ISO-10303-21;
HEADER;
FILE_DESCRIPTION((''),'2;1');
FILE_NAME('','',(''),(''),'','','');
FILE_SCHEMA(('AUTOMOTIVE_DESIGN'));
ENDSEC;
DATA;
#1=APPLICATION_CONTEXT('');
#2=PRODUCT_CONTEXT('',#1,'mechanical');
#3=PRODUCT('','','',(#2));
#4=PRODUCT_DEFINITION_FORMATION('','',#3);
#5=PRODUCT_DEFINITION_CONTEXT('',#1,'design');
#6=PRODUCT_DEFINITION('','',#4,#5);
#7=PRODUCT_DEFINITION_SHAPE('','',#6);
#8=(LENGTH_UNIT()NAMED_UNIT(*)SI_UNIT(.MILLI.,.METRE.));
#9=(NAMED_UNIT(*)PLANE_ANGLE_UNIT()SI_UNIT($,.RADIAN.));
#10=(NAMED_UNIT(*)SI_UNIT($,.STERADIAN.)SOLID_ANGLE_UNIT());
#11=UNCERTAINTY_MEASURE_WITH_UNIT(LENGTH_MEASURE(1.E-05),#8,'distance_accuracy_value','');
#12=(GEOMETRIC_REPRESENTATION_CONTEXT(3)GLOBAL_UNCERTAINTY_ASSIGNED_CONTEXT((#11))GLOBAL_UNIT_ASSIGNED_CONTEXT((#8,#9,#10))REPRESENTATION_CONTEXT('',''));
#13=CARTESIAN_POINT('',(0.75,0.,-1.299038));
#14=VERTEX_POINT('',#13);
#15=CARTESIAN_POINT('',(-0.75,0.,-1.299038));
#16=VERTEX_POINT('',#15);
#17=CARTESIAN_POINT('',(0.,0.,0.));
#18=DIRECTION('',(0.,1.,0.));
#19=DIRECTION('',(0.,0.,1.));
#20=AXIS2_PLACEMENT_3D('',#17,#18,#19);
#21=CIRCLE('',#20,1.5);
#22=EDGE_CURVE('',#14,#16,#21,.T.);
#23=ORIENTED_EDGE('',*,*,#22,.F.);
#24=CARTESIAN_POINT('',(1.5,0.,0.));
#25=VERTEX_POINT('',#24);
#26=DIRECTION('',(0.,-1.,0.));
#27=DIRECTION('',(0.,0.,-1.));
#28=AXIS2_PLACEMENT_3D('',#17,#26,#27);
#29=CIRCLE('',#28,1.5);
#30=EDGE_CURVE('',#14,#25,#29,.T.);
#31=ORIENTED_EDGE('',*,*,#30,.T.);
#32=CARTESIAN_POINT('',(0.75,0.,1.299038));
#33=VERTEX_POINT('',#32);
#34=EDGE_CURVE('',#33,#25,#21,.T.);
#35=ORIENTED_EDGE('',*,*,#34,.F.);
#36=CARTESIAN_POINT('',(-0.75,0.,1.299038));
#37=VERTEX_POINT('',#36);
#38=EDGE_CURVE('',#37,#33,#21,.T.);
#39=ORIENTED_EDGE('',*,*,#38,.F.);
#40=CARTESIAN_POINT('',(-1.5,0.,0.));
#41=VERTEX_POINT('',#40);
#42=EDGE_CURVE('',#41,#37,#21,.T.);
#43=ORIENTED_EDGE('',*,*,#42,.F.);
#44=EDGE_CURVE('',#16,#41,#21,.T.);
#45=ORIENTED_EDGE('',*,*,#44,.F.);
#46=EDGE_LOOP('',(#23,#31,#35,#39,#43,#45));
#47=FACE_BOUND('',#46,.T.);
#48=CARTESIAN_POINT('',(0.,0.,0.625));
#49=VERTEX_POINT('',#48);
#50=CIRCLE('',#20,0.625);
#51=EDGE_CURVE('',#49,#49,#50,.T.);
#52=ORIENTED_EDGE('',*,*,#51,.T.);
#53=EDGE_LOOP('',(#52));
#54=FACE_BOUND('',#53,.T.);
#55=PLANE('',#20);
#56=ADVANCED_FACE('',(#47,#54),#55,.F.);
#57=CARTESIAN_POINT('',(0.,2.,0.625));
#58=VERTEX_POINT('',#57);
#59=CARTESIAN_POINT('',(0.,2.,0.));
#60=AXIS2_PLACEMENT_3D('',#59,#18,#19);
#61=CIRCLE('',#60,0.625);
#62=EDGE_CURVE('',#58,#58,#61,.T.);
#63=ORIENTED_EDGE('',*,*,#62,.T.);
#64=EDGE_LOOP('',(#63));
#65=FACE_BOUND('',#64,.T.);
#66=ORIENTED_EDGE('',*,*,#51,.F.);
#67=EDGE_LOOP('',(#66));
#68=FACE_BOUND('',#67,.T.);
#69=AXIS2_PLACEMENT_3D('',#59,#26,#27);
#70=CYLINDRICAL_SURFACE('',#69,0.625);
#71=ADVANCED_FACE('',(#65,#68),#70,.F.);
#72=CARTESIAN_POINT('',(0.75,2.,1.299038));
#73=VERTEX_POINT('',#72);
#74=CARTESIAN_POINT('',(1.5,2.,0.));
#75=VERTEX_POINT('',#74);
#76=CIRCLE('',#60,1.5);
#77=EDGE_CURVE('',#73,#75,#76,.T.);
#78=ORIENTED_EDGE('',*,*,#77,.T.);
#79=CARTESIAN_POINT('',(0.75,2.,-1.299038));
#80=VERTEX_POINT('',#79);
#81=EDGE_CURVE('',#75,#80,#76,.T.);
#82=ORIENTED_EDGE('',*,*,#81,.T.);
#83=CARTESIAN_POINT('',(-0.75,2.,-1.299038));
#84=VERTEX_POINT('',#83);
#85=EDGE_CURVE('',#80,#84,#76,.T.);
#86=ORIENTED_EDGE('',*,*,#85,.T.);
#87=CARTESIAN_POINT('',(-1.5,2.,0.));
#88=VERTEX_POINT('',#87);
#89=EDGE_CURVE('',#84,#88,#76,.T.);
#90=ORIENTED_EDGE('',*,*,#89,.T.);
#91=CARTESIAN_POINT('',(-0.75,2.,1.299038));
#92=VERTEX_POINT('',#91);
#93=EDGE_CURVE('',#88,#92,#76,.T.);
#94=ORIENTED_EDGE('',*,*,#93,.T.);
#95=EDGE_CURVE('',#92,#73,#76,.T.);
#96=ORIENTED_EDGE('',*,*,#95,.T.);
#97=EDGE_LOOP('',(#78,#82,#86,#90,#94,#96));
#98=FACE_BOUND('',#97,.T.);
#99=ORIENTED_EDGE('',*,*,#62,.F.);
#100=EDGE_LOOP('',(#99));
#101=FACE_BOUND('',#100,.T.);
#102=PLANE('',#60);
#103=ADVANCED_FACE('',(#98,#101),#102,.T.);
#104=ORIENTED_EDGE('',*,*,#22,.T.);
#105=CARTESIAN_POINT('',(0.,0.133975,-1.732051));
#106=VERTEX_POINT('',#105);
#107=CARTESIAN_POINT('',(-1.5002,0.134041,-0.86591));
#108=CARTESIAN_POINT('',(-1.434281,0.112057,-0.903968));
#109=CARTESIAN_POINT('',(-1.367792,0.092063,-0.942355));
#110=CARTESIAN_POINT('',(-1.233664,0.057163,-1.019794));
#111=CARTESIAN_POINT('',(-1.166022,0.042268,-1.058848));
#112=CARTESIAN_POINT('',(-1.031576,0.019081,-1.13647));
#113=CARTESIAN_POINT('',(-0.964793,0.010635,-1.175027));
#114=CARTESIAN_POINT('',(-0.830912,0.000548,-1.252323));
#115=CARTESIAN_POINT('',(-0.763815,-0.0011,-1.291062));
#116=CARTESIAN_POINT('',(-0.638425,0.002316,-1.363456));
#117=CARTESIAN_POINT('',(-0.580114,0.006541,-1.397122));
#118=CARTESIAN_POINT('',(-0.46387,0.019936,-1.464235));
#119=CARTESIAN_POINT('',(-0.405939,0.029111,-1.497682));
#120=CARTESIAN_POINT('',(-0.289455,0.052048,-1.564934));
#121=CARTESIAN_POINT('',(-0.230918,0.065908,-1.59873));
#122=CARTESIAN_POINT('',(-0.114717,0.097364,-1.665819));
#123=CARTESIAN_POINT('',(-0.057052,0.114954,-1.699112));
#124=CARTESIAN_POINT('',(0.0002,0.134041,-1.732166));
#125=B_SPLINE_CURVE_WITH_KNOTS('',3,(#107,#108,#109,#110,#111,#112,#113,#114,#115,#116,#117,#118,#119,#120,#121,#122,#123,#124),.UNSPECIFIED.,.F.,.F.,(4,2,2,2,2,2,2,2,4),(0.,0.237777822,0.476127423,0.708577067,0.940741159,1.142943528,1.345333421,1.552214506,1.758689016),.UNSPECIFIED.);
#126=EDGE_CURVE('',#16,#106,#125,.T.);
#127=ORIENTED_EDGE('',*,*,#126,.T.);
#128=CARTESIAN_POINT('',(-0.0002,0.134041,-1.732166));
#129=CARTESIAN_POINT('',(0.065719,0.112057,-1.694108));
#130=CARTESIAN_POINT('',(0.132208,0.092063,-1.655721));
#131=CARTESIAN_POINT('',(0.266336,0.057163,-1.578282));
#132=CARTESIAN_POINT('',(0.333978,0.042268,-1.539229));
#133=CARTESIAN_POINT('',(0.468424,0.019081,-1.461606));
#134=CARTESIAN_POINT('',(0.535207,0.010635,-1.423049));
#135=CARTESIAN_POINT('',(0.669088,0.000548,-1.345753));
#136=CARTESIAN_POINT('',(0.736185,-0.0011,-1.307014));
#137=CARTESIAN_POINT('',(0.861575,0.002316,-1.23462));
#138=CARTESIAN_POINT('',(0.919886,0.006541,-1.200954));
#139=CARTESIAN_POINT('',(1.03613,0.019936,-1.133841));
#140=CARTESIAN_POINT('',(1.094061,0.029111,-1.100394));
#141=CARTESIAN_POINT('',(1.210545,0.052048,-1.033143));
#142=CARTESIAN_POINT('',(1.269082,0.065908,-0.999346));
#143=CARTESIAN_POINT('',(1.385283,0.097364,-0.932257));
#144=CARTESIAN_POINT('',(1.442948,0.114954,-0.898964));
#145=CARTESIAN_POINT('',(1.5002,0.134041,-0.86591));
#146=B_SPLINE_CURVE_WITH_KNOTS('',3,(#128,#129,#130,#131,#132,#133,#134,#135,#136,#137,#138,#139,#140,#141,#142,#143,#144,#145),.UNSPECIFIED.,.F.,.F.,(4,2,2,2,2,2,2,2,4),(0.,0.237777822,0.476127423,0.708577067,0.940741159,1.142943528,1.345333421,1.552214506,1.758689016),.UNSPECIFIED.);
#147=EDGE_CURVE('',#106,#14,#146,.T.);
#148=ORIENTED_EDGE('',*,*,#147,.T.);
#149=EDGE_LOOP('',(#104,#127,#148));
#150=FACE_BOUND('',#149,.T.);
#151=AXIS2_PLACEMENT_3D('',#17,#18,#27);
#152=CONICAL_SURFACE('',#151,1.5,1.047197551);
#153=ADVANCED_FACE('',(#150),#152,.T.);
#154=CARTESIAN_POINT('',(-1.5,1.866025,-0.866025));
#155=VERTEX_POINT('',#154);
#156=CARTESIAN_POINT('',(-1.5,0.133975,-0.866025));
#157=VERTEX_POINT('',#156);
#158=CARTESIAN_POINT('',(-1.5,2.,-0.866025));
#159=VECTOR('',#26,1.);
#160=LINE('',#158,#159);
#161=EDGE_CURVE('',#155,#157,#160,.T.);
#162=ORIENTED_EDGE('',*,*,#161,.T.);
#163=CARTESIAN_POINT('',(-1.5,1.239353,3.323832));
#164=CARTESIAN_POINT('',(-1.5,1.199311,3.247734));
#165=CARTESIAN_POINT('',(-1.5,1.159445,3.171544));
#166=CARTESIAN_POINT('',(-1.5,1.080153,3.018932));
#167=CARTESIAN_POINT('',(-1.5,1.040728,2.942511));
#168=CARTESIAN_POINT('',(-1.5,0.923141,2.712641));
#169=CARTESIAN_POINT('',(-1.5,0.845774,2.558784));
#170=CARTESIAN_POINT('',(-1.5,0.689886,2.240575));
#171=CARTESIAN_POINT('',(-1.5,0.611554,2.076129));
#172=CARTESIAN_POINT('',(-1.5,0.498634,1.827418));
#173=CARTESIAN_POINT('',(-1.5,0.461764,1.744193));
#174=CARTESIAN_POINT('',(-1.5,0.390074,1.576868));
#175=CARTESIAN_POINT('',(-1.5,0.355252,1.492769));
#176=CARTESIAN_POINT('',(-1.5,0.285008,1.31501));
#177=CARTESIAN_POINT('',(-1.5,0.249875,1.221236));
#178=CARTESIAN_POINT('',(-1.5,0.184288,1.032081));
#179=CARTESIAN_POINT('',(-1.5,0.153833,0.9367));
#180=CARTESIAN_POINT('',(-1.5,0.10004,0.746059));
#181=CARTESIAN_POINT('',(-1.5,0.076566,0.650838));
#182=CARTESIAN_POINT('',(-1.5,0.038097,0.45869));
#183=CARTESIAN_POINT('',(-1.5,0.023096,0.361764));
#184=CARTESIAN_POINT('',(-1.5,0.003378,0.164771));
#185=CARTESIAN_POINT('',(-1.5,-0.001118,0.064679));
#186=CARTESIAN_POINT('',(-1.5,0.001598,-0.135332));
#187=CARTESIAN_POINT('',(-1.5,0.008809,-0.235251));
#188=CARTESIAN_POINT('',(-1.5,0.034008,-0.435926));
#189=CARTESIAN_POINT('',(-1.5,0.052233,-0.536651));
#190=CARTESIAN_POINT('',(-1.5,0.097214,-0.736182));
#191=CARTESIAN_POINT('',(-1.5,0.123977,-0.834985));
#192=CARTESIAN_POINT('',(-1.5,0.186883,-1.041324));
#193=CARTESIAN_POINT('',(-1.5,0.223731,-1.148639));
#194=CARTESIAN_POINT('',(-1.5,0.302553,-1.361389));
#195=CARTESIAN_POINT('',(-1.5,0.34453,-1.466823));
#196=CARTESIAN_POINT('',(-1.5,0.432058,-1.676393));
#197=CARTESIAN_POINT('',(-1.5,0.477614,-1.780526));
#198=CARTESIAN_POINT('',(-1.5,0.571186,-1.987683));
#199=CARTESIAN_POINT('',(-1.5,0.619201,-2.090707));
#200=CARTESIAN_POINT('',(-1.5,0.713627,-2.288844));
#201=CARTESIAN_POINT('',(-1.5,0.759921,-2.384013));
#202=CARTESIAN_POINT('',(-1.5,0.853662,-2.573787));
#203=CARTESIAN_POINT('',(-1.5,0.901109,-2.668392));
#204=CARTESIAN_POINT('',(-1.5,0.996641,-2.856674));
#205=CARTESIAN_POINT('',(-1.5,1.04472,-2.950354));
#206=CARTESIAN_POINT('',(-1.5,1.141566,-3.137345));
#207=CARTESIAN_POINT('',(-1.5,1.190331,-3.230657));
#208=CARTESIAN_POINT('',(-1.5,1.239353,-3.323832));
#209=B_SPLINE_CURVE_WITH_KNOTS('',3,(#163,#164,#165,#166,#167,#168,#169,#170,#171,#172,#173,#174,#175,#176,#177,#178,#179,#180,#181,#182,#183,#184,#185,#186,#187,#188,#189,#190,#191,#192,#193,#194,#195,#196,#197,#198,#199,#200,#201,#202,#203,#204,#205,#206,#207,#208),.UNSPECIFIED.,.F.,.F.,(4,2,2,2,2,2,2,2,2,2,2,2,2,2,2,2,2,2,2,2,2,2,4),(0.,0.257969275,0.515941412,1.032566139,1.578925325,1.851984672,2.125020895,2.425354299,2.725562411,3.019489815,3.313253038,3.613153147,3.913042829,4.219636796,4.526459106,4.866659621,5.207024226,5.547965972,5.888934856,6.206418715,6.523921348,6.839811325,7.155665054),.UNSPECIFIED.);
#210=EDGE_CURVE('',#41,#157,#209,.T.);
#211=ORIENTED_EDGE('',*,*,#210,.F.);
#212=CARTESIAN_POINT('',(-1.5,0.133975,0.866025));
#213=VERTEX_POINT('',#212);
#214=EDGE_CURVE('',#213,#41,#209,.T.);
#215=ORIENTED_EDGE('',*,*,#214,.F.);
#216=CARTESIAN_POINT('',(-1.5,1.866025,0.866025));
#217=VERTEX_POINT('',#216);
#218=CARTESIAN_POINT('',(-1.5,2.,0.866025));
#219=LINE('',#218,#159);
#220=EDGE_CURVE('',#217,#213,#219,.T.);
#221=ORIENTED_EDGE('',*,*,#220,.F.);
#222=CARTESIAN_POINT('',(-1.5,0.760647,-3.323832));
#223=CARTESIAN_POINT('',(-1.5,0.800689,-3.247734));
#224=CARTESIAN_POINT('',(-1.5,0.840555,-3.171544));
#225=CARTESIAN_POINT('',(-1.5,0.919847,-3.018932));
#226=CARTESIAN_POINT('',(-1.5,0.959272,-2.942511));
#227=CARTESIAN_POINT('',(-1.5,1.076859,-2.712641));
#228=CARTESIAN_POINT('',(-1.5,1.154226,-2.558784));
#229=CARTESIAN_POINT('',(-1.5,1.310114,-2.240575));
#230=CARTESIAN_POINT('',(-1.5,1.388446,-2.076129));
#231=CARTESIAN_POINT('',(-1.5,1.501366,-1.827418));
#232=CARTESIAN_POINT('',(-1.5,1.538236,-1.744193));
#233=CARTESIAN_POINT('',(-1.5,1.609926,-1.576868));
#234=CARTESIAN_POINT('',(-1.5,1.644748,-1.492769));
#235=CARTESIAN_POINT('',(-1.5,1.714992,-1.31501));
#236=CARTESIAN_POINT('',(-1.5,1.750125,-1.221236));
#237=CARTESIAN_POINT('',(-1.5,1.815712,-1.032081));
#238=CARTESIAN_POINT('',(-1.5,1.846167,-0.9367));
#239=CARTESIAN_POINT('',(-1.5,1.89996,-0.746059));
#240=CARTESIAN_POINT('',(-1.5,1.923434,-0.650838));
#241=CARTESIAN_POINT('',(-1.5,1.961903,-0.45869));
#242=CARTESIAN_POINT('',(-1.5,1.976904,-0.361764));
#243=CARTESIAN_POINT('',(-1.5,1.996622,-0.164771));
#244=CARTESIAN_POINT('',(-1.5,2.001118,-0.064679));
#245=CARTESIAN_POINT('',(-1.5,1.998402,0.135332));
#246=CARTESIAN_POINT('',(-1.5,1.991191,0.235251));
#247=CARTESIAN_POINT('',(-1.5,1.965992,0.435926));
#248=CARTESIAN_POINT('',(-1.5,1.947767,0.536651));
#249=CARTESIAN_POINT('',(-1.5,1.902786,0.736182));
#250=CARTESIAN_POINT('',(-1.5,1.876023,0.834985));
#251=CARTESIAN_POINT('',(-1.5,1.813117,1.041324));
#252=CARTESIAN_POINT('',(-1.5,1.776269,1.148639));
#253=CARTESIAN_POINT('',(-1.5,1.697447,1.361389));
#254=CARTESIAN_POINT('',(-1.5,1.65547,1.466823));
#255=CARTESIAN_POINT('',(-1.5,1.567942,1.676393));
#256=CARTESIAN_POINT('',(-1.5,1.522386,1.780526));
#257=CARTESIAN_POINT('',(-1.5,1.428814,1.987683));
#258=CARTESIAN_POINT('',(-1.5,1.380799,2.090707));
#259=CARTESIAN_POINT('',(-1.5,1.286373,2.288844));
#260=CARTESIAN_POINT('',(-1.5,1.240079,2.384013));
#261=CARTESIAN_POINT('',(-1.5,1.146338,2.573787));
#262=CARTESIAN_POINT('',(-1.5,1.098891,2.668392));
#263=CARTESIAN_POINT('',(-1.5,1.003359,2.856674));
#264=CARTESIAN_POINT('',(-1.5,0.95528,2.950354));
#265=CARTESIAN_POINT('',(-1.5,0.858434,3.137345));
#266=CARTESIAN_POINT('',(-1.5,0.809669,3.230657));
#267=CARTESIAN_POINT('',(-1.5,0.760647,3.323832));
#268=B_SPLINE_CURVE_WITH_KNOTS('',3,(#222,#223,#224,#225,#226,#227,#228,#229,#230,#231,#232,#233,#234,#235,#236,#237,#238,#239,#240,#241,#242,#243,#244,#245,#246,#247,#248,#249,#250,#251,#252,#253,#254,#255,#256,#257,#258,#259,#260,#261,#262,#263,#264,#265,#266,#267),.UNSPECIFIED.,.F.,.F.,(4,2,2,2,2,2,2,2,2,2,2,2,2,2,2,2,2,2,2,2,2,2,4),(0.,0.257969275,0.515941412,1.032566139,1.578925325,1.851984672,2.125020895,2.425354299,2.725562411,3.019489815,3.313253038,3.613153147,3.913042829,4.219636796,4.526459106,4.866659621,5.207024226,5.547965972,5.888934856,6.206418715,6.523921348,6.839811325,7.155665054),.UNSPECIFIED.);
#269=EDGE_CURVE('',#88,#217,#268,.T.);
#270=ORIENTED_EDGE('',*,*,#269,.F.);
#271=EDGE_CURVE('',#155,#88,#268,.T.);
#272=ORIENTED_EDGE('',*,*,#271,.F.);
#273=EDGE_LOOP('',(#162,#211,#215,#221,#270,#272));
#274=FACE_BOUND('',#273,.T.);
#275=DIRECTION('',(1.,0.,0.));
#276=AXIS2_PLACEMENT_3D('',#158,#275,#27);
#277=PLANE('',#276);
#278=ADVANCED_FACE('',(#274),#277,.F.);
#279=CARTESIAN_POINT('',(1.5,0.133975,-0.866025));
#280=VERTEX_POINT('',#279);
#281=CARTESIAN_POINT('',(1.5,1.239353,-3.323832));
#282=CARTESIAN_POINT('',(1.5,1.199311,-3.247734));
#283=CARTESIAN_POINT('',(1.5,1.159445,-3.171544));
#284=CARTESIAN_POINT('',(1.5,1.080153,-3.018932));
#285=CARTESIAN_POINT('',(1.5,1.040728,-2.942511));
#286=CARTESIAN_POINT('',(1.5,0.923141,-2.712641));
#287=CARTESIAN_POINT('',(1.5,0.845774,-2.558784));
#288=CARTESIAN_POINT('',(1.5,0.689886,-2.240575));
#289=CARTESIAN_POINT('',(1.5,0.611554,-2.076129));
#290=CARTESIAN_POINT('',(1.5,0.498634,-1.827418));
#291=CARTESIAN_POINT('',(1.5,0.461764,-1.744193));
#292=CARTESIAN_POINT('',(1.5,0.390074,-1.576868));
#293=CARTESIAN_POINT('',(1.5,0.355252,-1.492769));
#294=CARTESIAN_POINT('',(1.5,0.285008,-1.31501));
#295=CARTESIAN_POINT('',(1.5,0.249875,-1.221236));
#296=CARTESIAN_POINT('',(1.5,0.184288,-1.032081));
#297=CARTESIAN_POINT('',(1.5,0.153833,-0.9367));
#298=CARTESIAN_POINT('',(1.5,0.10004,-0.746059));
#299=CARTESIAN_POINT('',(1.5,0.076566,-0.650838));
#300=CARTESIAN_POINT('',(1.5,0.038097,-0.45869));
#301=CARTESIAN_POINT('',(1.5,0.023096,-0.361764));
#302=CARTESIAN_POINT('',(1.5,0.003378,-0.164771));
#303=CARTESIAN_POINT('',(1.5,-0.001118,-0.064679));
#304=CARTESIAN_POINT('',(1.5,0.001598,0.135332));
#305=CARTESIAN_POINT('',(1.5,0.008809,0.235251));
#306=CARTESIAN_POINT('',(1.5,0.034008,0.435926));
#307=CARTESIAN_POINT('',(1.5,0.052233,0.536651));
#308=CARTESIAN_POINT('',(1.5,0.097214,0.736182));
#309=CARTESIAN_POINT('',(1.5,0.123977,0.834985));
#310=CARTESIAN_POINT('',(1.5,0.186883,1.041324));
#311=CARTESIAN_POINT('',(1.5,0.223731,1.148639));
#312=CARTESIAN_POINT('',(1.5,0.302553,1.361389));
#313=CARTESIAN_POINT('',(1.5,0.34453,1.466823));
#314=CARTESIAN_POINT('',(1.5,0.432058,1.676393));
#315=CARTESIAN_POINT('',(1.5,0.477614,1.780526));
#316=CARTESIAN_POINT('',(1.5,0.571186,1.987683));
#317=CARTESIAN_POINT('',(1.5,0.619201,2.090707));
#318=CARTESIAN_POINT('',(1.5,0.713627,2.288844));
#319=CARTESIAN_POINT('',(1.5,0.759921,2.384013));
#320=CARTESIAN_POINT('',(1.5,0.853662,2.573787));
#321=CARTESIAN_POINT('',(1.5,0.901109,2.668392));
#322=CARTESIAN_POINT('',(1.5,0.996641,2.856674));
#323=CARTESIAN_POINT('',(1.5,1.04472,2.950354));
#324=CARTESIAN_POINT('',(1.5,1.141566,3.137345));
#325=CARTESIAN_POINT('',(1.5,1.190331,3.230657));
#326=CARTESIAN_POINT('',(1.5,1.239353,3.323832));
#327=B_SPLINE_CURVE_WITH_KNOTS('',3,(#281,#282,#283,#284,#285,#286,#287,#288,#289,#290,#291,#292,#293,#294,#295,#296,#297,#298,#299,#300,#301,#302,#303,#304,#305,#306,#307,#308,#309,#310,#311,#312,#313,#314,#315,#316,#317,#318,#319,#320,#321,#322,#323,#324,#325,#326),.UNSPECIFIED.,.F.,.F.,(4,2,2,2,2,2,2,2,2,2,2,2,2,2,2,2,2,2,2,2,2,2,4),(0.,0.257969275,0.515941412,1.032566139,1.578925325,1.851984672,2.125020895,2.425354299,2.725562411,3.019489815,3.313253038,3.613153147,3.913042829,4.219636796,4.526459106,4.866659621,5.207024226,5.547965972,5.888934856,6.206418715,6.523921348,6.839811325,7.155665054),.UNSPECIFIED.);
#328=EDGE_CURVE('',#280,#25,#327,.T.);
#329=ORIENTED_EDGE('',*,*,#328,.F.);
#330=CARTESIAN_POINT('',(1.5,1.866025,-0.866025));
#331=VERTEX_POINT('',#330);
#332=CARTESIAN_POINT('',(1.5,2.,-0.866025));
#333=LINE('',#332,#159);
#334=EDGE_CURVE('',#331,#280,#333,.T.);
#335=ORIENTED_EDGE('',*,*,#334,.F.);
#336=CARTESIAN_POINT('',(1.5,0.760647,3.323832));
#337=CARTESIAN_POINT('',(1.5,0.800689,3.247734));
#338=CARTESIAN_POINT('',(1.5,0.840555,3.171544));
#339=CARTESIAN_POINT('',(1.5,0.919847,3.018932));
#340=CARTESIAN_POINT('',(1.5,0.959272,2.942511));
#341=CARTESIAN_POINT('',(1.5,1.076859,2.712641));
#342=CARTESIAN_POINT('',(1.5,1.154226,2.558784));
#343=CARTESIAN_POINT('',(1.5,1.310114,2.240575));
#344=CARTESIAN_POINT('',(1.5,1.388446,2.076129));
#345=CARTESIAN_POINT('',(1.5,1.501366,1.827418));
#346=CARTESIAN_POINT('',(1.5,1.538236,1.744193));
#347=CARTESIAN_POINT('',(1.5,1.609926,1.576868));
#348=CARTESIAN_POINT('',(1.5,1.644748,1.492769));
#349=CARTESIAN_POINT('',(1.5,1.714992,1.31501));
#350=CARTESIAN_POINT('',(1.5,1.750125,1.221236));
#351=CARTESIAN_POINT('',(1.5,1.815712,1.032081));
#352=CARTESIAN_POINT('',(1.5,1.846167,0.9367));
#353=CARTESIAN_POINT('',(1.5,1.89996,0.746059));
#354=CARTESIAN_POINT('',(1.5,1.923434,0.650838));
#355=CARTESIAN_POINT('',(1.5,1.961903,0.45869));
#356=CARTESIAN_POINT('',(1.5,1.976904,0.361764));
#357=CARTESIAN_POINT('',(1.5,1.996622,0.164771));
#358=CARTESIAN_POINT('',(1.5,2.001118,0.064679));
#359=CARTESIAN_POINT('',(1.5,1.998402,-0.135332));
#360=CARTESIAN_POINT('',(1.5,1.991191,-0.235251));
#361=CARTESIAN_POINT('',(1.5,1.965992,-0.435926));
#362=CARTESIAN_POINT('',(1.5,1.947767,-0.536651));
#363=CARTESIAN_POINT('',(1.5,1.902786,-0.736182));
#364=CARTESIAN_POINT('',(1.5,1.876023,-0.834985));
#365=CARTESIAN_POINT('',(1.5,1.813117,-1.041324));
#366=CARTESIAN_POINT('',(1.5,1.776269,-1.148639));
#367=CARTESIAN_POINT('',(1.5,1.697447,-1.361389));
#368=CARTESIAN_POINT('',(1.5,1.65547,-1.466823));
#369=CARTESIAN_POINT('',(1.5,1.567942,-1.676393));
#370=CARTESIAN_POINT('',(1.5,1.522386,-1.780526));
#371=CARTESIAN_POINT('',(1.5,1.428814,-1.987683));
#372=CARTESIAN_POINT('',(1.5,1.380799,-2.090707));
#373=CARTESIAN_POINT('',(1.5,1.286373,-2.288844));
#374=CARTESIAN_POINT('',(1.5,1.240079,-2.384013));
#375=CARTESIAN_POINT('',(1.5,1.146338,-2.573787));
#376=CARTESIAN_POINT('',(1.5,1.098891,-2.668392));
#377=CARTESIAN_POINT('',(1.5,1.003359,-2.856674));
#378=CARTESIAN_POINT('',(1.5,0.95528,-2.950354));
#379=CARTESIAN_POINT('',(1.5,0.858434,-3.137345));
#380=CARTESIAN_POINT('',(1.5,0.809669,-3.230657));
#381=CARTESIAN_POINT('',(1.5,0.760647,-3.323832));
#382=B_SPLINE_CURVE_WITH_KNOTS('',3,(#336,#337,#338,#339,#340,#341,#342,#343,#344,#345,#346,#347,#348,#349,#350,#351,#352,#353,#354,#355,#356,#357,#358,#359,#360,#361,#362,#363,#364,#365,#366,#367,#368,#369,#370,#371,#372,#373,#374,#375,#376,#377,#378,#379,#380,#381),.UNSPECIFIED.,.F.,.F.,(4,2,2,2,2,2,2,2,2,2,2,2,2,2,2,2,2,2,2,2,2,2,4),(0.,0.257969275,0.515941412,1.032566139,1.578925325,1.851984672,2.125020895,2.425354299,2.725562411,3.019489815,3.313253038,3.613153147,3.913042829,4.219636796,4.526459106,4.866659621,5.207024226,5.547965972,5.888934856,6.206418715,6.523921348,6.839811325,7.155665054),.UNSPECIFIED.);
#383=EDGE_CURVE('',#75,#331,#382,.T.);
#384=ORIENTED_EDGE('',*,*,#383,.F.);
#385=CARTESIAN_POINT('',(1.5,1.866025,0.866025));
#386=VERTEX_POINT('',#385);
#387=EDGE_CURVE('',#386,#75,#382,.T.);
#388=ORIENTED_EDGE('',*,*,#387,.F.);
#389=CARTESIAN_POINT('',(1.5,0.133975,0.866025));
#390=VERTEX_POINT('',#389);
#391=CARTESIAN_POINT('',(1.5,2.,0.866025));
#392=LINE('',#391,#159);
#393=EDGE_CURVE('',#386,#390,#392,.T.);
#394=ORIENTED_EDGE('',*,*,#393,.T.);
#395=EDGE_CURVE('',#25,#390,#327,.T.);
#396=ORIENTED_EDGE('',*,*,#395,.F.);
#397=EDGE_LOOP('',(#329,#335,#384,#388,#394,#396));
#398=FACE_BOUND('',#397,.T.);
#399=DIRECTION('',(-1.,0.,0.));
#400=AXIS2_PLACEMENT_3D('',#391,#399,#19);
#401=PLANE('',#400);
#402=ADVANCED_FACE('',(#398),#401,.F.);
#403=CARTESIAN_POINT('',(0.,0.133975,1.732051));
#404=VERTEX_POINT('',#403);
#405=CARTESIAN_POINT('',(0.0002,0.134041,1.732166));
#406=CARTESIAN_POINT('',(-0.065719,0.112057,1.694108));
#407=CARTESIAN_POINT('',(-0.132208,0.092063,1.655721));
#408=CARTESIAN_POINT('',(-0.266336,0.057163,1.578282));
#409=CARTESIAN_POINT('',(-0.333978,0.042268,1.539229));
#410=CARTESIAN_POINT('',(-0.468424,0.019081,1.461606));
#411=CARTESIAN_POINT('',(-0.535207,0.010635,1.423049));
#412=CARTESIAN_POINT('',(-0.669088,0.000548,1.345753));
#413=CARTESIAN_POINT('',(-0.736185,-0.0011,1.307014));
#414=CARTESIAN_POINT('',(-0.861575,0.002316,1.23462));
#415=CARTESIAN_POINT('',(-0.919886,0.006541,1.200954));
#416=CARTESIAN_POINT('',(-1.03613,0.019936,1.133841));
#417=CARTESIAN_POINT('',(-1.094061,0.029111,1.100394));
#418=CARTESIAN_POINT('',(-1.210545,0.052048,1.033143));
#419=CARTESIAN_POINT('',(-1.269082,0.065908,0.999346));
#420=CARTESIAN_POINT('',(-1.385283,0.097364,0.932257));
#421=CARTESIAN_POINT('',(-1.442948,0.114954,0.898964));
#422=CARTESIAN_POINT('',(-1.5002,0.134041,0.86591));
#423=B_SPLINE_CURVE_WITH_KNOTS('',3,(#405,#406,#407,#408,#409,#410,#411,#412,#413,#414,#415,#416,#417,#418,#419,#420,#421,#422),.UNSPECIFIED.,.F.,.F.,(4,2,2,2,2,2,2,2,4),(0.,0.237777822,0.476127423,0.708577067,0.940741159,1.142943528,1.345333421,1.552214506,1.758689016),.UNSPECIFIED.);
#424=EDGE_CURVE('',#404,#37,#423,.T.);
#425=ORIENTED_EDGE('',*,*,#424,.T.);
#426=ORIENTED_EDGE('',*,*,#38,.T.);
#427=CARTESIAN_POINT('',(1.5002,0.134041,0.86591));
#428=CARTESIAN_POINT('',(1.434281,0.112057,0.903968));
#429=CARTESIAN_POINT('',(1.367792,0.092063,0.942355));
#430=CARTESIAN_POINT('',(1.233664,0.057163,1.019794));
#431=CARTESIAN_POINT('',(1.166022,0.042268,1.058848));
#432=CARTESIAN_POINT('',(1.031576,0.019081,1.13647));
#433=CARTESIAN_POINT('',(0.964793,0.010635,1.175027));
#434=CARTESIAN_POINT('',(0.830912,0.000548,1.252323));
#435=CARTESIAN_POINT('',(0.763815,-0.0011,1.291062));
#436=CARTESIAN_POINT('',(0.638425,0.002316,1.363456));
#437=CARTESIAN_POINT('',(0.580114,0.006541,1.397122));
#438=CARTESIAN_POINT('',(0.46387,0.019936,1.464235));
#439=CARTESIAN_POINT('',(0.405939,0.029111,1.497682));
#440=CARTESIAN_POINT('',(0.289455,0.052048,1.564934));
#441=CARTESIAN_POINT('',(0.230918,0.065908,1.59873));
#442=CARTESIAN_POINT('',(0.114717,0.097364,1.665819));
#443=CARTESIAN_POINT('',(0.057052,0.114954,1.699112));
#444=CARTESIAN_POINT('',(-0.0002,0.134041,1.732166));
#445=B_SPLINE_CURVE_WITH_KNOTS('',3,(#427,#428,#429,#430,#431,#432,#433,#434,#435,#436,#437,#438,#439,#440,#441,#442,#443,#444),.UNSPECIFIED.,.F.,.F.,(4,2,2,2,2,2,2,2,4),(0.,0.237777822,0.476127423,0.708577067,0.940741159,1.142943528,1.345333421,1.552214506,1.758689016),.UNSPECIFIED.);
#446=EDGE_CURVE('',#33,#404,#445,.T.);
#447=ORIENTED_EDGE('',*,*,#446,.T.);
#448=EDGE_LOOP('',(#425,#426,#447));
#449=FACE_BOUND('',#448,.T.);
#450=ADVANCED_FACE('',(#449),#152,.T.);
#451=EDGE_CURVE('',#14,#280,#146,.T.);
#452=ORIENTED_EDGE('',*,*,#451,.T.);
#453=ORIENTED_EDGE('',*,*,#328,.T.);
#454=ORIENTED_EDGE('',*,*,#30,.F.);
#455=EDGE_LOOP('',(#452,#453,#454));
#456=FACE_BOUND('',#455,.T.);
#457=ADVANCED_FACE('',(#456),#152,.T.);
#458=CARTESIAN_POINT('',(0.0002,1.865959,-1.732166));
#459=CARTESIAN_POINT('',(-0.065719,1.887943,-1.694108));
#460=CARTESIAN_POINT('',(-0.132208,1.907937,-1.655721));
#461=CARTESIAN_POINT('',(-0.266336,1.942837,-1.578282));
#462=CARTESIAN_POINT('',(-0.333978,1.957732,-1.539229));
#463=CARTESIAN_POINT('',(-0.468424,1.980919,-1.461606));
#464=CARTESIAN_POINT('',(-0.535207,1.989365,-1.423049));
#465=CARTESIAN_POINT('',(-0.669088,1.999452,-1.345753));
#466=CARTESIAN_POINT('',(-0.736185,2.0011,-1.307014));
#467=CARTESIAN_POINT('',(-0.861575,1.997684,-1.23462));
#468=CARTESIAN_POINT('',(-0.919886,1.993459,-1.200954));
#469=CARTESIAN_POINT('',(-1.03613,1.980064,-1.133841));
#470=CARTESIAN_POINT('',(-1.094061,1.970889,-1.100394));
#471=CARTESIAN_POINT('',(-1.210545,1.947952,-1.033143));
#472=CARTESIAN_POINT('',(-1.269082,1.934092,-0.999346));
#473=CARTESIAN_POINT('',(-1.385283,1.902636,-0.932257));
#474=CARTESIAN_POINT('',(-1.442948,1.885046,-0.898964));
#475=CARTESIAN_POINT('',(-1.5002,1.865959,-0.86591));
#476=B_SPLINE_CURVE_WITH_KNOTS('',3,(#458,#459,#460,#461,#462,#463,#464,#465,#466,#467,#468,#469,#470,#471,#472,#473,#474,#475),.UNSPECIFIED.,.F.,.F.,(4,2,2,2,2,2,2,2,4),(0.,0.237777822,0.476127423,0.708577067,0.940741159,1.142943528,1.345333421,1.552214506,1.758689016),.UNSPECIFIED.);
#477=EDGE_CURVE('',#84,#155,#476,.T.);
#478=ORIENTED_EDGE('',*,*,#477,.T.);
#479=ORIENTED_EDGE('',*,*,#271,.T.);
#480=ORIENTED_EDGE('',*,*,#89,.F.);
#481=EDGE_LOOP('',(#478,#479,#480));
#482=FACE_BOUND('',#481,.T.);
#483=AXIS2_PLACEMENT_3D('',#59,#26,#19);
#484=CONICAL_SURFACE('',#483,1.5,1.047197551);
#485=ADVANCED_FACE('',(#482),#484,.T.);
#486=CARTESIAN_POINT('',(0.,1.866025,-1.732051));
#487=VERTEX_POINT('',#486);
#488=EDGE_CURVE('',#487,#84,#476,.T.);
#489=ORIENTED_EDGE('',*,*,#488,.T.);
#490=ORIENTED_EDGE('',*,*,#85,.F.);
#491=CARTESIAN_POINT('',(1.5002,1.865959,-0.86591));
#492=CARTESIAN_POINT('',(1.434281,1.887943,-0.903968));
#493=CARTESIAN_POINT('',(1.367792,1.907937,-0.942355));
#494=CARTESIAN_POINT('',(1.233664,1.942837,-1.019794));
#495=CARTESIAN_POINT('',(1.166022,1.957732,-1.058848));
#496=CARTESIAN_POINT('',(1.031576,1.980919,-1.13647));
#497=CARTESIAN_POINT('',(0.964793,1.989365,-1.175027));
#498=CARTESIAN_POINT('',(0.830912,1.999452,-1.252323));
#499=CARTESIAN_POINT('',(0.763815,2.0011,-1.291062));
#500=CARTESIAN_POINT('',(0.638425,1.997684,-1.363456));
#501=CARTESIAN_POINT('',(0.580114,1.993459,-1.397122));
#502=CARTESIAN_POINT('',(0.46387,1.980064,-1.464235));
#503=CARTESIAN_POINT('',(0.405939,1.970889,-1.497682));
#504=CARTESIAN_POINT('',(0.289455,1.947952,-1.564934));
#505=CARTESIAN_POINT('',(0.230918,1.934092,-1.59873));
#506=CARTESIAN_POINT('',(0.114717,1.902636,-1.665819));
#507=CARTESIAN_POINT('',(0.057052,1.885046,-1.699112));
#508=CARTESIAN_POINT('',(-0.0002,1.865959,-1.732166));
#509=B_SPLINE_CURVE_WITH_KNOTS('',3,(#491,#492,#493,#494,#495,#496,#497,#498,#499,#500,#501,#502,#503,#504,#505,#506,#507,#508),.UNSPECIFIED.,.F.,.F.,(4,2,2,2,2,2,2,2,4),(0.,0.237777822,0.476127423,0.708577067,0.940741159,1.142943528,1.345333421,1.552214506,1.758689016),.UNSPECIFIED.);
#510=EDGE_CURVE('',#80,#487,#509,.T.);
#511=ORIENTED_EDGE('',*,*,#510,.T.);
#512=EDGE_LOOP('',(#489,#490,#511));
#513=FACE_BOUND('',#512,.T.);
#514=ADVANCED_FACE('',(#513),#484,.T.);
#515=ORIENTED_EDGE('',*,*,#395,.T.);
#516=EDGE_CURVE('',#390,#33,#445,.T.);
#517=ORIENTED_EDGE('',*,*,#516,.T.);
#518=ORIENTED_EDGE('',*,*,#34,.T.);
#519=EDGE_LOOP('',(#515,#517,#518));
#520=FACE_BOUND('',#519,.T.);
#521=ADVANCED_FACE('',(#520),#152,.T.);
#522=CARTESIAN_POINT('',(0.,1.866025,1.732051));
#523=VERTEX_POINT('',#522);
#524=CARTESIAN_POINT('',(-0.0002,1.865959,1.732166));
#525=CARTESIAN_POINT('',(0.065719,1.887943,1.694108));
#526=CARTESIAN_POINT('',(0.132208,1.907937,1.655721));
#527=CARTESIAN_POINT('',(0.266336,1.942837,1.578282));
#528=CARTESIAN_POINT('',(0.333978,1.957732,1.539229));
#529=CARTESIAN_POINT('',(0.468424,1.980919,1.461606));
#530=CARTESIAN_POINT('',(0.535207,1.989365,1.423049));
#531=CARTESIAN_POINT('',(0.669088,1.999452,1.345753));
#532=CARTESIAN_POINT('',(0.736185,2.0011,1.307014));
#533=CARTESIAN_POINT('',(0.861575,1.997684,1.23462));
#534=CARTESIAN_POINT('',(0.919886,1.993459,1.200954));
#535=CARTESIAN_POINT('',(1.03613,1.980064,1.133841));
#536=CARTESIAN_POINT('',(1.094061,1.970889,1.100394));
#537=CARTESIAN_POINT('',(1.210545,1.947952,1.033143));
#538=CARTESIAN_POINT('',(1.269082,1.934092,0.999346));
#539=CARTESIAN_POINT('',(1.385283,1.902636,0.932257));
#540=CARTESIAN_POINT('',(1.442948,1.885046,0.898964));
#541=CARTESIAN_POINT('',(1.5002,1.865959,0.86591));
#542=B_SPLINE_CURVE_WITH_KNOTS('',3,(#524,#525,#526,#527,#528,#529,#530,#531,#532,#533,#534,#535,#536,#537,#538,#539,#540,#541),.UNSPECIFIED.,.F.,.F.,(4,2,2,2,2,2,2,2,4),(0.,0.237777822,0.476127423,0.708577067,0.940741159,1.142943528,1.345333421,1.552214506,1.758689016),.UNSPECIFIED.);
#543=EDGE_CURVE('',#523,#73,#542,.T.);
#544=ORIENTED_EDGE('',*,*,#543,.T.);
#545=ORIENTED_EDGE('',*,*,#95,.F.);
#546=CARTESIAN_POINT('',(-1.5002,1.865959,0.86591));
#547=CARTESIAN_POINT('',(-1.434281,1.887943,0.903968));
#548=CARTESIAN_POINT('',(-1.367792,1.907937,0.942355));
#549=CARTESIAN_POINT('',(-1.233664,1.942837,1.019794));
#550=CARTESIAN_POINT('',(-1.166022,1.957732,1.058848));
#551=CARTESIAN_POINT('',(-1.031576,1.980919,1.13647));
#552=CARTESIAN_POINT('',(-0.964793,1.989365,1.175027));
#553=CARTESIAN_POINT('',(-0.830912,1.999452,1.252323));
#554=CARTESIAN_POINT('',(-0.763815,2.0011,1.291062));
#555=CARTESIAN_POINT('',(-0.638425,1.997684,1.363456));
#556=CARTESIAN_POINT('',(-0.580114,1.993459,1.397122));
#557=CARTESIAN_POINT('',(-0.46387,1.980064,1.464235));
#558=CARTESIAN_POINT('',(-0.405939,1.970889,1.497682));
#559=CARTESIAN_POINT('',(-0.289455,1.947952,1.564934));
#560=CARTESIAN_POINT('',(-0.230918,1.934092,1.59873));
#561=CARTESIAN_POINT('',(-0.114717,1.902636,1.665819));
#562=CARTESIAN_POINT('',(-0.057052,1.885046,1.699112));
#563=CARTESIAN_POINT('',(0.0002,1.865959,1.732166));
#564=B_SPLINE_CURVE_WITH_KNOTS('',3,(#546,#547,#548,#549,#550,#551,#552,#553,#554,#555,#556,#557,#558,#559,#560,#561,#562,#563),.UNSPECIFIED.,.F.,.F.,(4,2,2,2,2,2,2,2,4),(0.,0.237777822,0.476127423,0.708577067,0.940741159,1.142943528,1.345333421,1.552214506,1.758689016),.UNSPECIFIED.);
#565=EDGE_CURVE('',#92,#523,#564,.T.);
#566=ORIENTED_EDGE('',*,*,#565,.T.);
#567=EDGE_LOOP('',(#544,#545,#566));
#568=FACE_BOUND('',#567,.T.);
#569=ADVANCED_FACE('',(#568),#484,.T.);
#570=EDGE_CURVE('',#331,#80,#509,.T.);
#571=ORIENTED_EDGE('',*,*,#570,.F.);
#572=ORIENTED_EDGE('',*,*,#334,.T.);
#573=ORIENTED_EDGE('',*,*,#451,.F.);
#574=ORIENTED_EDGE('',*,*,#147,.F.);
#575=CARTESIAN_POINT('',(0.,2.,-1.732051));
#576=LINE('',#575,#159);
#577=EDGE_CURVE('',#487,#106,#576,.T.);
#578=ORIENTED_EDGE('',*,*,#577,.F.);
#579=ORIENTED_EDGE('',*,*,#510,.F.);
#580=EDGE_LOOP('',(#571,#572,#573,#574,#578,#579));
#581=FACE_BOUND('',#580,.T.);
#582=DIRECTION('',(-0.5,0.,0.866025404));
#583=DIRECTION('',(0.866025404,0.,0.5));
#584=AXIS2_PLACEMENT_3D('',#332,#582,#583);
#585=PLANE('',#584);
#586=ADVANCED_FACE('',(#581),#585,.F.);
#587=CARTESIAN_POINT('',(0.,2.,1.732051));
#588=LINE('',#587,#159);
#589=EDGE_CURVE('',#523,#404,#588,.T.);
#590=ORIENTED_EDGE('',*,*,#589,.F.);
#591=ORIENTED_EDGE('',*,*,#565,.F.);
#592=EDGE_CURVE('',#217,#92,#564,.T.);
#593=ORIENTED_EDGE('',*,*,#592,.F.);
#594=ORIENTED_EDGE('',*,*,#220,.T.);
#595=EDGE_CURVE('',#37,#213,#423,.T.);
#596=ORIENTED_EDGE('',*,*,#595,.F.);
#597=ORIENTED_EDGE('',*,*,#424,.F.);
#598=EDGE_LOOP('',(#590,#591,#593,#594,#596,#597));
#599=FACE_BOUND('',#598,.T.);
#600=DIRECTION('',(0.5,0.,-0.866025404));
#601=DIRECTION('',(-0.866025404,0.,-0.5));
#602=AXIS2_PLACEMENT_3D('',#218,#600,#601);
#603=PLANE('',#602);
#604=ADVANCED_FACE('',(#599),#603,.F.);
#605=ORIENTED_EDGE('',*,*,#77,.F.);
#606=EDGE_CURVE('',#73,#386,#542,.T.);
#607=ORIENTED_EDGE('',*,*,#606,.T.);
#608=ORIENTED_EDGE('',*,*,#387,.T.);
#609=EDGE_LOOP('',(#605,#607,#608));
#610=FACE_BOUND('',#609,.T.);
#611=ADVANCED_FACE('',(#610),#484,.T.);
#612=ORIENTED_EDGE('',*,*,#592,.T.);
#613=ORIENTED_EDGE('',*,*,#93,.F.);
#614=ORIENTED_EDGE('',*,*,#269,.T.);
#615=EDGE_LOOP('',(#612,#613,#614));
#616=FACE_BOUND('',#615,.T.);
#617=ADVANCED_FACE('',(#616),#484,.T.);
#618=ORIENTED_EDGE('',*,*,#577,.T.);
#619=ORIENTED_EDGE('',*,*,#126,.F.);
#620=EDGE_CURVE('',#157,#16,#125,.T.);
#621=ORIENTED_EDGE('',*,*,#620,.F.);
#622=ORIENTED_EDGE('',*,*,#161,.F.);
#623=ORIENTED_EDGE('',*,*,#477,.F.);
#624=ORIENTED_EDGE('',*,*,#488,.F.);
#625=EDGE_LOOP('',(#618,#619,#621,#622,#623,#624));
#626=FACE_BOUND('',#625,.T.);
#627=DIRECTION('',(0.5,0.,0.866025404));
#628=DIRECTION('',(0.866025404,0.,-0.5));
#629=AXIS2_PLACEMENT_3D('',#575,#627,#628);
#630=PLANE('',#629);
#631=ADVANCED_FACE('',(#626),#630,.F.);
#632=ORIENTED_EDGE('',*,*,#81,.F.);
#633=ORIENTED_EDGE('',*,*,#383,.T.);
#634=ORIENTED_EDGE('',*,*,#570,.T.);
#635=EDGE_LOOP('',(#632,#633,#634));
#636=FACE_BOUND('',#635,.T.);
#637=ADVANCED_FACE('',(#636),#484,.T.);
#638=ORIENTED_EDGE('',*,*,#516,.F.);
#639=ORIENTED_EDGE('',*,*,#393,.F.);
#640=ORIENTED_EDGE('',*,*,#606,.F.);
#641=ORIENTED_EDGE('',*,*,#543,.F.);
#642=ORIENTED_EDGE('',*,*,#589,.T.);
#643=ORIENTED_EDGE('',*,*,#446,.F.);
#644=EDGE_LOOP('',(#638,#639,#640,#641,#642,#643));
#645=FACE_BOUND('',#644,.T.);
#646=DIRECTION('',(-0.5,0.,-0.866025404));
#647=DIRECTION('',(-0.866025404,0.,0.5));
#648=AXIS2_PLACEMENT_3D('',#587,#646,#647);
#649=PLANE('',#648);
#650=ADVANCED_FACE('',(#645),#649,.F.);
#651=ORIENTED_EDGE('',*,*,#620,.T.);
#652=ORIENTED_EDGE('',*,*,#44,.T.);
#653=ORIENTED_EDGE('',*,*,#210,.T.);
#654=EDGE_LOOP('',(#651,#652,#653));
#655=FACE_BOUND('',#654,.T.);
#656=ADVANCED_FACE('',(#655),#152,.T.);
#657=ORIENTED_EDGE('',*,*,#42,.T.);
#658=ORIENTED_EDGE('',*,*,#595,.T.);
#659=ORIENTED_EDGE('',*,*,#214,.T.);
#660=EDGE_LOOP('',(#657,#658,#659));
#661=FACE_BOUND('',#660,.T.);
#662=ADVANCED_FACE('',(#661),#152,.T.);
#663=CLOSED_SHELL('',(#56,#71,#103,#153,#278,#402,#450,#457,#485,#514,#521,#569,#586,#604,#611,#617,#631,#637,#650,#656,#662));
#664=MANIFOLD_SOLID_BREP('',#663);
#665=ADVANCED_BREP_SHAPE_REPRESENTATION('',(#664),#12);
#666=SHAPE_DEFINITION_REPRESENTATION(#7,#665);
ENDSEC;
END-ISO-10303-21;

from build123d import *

# Parameters (mm, degrees)
SKETCH1_R           = 0.625
BOSS_EXTRUDE1_DEPTH = 2
SKETCH2_OUTSIDE_W   = 12.928
SKETCH2_OUTSIDE_H   = 13.392
SKETCH2_OUTSIDE_R   = 1.5
CUT_EXTRUDE1_DEPTH  = 2
CUT_EXTRUDE1_DRAFT  = -60
SKETCH3_OUTSIDE_W   = 12.928
SKETCH3_OUTSIDE_H   = 13.392
SKETCH3_OUTSIDE_R   = 1.5
CUT_EXTRUDE2_DEPTH  = 2
CUT_EXTRUDE2_DRAFT  = -60


with BuildPart() as part:
    # Sketch1 → Boss-Extrude1 (new body)
    with BuildSketch(Plane(origin=(0, 0, 0), x_dir=(1, 0, 0), z_dir=(0, 1, 0))):
        Polygon((0, 1.732050808), (-1.5, 0.866025404), (-1.5, -0.866025404), (0, -1.732050808), (1.5, -0.866025404), (1.5, 0.866025404), align=None)
        with Locations(Location((0, 0, 0), (0, 0, 270))):
            Circle(SKETCH1_R, mode=Mode.SUBTRACT)
    extrude(amount=BOSS_EXTRUDE1_DEPTH)


with BuildPart() as cut_extrude1_tool:
    # Sketch2 outside → Cut-Extrude1 (with draft: the straight prism first)
    with BuildSketch(Plane(origin=(0, 2, 0), x_dir=(1, 0, 0), z_dir=(0, 1, 0))):
        Rectangle(SKETCH2_OUTSIDE_W, SKETCH2_OUTSIDE_H)
        Circle(SKETCH2_OUTSIDE_R, mode=Mode.SUBTRACT)
    extrude(amount=-CUT_EXTRUDE1_DEPTH)
    # Cut-Extrude1: the draft: its side faces are tilted about the plane it starts from
    cut_extrude1_sides = [cut_extrude1_tool.faces().sort_by_distance(p)[0] for p in [
        (0, 1, 6.696),
        (6.464, 1, 0),
        (0, 1, -6.696),
        (-6.464, 1, 0),
        (-1.5, 1, 0),
    ]]
    draft(cut_extrude1_sides, Plane(origin=(0, 2, 0), x_dir=(1, 0, 0), z_dir=(0, 1, 0)), CUT_EXTRUDE1_DRAFT)


with BuildPart() as part_1:
    add(part.part)

    # Cut-Extrude1: cut by cut_extrude1_tool
    add(cut_extrude1_tool.part, mode=Mode.SUBTRACT)


with BuildPart() as cut_extrude2_tool:
    # Sketch3 outside → Cut-Extrude2 (with draft: the straight prism first)
    with BuildSketch(Plane.XZ):
        Rectangle(SKETCH3_OUTSIDE_W, SKETCH3_OUTSIDE_H)
        Circle(SKETCH3_OUTSIDE_R, mode=Mode.SUBTRACT)
    extrude(amount=-CUT_EXTRUDE2_DEPTH)
    # Cut-Extrude2: the draft: its side faces are tilted about the plane it starts from
    cut_extrude2_sides = [cut_extrude2_tool.faces().sort_by_distance(p)[0] for p in [
        (0, 1, -6.696),
        (6.464, 1, 0),
        (0, 1, 6.696),
        (-6.464, 1, 0),
        (-1.5, 1, 0),
    ]]
    draft(cut_extrude2_sides, Plane.XZ, CUT_EXTRUDE2_DRAFT)


with BuildPart() as part_2:
    add(part_1.part)

    # Cut-Extrude2: cut by cut_extrude2_tool
    add(cut_extrude2_tool.part, mode=Mode.SUBTRACT)


solid = part_2.part
